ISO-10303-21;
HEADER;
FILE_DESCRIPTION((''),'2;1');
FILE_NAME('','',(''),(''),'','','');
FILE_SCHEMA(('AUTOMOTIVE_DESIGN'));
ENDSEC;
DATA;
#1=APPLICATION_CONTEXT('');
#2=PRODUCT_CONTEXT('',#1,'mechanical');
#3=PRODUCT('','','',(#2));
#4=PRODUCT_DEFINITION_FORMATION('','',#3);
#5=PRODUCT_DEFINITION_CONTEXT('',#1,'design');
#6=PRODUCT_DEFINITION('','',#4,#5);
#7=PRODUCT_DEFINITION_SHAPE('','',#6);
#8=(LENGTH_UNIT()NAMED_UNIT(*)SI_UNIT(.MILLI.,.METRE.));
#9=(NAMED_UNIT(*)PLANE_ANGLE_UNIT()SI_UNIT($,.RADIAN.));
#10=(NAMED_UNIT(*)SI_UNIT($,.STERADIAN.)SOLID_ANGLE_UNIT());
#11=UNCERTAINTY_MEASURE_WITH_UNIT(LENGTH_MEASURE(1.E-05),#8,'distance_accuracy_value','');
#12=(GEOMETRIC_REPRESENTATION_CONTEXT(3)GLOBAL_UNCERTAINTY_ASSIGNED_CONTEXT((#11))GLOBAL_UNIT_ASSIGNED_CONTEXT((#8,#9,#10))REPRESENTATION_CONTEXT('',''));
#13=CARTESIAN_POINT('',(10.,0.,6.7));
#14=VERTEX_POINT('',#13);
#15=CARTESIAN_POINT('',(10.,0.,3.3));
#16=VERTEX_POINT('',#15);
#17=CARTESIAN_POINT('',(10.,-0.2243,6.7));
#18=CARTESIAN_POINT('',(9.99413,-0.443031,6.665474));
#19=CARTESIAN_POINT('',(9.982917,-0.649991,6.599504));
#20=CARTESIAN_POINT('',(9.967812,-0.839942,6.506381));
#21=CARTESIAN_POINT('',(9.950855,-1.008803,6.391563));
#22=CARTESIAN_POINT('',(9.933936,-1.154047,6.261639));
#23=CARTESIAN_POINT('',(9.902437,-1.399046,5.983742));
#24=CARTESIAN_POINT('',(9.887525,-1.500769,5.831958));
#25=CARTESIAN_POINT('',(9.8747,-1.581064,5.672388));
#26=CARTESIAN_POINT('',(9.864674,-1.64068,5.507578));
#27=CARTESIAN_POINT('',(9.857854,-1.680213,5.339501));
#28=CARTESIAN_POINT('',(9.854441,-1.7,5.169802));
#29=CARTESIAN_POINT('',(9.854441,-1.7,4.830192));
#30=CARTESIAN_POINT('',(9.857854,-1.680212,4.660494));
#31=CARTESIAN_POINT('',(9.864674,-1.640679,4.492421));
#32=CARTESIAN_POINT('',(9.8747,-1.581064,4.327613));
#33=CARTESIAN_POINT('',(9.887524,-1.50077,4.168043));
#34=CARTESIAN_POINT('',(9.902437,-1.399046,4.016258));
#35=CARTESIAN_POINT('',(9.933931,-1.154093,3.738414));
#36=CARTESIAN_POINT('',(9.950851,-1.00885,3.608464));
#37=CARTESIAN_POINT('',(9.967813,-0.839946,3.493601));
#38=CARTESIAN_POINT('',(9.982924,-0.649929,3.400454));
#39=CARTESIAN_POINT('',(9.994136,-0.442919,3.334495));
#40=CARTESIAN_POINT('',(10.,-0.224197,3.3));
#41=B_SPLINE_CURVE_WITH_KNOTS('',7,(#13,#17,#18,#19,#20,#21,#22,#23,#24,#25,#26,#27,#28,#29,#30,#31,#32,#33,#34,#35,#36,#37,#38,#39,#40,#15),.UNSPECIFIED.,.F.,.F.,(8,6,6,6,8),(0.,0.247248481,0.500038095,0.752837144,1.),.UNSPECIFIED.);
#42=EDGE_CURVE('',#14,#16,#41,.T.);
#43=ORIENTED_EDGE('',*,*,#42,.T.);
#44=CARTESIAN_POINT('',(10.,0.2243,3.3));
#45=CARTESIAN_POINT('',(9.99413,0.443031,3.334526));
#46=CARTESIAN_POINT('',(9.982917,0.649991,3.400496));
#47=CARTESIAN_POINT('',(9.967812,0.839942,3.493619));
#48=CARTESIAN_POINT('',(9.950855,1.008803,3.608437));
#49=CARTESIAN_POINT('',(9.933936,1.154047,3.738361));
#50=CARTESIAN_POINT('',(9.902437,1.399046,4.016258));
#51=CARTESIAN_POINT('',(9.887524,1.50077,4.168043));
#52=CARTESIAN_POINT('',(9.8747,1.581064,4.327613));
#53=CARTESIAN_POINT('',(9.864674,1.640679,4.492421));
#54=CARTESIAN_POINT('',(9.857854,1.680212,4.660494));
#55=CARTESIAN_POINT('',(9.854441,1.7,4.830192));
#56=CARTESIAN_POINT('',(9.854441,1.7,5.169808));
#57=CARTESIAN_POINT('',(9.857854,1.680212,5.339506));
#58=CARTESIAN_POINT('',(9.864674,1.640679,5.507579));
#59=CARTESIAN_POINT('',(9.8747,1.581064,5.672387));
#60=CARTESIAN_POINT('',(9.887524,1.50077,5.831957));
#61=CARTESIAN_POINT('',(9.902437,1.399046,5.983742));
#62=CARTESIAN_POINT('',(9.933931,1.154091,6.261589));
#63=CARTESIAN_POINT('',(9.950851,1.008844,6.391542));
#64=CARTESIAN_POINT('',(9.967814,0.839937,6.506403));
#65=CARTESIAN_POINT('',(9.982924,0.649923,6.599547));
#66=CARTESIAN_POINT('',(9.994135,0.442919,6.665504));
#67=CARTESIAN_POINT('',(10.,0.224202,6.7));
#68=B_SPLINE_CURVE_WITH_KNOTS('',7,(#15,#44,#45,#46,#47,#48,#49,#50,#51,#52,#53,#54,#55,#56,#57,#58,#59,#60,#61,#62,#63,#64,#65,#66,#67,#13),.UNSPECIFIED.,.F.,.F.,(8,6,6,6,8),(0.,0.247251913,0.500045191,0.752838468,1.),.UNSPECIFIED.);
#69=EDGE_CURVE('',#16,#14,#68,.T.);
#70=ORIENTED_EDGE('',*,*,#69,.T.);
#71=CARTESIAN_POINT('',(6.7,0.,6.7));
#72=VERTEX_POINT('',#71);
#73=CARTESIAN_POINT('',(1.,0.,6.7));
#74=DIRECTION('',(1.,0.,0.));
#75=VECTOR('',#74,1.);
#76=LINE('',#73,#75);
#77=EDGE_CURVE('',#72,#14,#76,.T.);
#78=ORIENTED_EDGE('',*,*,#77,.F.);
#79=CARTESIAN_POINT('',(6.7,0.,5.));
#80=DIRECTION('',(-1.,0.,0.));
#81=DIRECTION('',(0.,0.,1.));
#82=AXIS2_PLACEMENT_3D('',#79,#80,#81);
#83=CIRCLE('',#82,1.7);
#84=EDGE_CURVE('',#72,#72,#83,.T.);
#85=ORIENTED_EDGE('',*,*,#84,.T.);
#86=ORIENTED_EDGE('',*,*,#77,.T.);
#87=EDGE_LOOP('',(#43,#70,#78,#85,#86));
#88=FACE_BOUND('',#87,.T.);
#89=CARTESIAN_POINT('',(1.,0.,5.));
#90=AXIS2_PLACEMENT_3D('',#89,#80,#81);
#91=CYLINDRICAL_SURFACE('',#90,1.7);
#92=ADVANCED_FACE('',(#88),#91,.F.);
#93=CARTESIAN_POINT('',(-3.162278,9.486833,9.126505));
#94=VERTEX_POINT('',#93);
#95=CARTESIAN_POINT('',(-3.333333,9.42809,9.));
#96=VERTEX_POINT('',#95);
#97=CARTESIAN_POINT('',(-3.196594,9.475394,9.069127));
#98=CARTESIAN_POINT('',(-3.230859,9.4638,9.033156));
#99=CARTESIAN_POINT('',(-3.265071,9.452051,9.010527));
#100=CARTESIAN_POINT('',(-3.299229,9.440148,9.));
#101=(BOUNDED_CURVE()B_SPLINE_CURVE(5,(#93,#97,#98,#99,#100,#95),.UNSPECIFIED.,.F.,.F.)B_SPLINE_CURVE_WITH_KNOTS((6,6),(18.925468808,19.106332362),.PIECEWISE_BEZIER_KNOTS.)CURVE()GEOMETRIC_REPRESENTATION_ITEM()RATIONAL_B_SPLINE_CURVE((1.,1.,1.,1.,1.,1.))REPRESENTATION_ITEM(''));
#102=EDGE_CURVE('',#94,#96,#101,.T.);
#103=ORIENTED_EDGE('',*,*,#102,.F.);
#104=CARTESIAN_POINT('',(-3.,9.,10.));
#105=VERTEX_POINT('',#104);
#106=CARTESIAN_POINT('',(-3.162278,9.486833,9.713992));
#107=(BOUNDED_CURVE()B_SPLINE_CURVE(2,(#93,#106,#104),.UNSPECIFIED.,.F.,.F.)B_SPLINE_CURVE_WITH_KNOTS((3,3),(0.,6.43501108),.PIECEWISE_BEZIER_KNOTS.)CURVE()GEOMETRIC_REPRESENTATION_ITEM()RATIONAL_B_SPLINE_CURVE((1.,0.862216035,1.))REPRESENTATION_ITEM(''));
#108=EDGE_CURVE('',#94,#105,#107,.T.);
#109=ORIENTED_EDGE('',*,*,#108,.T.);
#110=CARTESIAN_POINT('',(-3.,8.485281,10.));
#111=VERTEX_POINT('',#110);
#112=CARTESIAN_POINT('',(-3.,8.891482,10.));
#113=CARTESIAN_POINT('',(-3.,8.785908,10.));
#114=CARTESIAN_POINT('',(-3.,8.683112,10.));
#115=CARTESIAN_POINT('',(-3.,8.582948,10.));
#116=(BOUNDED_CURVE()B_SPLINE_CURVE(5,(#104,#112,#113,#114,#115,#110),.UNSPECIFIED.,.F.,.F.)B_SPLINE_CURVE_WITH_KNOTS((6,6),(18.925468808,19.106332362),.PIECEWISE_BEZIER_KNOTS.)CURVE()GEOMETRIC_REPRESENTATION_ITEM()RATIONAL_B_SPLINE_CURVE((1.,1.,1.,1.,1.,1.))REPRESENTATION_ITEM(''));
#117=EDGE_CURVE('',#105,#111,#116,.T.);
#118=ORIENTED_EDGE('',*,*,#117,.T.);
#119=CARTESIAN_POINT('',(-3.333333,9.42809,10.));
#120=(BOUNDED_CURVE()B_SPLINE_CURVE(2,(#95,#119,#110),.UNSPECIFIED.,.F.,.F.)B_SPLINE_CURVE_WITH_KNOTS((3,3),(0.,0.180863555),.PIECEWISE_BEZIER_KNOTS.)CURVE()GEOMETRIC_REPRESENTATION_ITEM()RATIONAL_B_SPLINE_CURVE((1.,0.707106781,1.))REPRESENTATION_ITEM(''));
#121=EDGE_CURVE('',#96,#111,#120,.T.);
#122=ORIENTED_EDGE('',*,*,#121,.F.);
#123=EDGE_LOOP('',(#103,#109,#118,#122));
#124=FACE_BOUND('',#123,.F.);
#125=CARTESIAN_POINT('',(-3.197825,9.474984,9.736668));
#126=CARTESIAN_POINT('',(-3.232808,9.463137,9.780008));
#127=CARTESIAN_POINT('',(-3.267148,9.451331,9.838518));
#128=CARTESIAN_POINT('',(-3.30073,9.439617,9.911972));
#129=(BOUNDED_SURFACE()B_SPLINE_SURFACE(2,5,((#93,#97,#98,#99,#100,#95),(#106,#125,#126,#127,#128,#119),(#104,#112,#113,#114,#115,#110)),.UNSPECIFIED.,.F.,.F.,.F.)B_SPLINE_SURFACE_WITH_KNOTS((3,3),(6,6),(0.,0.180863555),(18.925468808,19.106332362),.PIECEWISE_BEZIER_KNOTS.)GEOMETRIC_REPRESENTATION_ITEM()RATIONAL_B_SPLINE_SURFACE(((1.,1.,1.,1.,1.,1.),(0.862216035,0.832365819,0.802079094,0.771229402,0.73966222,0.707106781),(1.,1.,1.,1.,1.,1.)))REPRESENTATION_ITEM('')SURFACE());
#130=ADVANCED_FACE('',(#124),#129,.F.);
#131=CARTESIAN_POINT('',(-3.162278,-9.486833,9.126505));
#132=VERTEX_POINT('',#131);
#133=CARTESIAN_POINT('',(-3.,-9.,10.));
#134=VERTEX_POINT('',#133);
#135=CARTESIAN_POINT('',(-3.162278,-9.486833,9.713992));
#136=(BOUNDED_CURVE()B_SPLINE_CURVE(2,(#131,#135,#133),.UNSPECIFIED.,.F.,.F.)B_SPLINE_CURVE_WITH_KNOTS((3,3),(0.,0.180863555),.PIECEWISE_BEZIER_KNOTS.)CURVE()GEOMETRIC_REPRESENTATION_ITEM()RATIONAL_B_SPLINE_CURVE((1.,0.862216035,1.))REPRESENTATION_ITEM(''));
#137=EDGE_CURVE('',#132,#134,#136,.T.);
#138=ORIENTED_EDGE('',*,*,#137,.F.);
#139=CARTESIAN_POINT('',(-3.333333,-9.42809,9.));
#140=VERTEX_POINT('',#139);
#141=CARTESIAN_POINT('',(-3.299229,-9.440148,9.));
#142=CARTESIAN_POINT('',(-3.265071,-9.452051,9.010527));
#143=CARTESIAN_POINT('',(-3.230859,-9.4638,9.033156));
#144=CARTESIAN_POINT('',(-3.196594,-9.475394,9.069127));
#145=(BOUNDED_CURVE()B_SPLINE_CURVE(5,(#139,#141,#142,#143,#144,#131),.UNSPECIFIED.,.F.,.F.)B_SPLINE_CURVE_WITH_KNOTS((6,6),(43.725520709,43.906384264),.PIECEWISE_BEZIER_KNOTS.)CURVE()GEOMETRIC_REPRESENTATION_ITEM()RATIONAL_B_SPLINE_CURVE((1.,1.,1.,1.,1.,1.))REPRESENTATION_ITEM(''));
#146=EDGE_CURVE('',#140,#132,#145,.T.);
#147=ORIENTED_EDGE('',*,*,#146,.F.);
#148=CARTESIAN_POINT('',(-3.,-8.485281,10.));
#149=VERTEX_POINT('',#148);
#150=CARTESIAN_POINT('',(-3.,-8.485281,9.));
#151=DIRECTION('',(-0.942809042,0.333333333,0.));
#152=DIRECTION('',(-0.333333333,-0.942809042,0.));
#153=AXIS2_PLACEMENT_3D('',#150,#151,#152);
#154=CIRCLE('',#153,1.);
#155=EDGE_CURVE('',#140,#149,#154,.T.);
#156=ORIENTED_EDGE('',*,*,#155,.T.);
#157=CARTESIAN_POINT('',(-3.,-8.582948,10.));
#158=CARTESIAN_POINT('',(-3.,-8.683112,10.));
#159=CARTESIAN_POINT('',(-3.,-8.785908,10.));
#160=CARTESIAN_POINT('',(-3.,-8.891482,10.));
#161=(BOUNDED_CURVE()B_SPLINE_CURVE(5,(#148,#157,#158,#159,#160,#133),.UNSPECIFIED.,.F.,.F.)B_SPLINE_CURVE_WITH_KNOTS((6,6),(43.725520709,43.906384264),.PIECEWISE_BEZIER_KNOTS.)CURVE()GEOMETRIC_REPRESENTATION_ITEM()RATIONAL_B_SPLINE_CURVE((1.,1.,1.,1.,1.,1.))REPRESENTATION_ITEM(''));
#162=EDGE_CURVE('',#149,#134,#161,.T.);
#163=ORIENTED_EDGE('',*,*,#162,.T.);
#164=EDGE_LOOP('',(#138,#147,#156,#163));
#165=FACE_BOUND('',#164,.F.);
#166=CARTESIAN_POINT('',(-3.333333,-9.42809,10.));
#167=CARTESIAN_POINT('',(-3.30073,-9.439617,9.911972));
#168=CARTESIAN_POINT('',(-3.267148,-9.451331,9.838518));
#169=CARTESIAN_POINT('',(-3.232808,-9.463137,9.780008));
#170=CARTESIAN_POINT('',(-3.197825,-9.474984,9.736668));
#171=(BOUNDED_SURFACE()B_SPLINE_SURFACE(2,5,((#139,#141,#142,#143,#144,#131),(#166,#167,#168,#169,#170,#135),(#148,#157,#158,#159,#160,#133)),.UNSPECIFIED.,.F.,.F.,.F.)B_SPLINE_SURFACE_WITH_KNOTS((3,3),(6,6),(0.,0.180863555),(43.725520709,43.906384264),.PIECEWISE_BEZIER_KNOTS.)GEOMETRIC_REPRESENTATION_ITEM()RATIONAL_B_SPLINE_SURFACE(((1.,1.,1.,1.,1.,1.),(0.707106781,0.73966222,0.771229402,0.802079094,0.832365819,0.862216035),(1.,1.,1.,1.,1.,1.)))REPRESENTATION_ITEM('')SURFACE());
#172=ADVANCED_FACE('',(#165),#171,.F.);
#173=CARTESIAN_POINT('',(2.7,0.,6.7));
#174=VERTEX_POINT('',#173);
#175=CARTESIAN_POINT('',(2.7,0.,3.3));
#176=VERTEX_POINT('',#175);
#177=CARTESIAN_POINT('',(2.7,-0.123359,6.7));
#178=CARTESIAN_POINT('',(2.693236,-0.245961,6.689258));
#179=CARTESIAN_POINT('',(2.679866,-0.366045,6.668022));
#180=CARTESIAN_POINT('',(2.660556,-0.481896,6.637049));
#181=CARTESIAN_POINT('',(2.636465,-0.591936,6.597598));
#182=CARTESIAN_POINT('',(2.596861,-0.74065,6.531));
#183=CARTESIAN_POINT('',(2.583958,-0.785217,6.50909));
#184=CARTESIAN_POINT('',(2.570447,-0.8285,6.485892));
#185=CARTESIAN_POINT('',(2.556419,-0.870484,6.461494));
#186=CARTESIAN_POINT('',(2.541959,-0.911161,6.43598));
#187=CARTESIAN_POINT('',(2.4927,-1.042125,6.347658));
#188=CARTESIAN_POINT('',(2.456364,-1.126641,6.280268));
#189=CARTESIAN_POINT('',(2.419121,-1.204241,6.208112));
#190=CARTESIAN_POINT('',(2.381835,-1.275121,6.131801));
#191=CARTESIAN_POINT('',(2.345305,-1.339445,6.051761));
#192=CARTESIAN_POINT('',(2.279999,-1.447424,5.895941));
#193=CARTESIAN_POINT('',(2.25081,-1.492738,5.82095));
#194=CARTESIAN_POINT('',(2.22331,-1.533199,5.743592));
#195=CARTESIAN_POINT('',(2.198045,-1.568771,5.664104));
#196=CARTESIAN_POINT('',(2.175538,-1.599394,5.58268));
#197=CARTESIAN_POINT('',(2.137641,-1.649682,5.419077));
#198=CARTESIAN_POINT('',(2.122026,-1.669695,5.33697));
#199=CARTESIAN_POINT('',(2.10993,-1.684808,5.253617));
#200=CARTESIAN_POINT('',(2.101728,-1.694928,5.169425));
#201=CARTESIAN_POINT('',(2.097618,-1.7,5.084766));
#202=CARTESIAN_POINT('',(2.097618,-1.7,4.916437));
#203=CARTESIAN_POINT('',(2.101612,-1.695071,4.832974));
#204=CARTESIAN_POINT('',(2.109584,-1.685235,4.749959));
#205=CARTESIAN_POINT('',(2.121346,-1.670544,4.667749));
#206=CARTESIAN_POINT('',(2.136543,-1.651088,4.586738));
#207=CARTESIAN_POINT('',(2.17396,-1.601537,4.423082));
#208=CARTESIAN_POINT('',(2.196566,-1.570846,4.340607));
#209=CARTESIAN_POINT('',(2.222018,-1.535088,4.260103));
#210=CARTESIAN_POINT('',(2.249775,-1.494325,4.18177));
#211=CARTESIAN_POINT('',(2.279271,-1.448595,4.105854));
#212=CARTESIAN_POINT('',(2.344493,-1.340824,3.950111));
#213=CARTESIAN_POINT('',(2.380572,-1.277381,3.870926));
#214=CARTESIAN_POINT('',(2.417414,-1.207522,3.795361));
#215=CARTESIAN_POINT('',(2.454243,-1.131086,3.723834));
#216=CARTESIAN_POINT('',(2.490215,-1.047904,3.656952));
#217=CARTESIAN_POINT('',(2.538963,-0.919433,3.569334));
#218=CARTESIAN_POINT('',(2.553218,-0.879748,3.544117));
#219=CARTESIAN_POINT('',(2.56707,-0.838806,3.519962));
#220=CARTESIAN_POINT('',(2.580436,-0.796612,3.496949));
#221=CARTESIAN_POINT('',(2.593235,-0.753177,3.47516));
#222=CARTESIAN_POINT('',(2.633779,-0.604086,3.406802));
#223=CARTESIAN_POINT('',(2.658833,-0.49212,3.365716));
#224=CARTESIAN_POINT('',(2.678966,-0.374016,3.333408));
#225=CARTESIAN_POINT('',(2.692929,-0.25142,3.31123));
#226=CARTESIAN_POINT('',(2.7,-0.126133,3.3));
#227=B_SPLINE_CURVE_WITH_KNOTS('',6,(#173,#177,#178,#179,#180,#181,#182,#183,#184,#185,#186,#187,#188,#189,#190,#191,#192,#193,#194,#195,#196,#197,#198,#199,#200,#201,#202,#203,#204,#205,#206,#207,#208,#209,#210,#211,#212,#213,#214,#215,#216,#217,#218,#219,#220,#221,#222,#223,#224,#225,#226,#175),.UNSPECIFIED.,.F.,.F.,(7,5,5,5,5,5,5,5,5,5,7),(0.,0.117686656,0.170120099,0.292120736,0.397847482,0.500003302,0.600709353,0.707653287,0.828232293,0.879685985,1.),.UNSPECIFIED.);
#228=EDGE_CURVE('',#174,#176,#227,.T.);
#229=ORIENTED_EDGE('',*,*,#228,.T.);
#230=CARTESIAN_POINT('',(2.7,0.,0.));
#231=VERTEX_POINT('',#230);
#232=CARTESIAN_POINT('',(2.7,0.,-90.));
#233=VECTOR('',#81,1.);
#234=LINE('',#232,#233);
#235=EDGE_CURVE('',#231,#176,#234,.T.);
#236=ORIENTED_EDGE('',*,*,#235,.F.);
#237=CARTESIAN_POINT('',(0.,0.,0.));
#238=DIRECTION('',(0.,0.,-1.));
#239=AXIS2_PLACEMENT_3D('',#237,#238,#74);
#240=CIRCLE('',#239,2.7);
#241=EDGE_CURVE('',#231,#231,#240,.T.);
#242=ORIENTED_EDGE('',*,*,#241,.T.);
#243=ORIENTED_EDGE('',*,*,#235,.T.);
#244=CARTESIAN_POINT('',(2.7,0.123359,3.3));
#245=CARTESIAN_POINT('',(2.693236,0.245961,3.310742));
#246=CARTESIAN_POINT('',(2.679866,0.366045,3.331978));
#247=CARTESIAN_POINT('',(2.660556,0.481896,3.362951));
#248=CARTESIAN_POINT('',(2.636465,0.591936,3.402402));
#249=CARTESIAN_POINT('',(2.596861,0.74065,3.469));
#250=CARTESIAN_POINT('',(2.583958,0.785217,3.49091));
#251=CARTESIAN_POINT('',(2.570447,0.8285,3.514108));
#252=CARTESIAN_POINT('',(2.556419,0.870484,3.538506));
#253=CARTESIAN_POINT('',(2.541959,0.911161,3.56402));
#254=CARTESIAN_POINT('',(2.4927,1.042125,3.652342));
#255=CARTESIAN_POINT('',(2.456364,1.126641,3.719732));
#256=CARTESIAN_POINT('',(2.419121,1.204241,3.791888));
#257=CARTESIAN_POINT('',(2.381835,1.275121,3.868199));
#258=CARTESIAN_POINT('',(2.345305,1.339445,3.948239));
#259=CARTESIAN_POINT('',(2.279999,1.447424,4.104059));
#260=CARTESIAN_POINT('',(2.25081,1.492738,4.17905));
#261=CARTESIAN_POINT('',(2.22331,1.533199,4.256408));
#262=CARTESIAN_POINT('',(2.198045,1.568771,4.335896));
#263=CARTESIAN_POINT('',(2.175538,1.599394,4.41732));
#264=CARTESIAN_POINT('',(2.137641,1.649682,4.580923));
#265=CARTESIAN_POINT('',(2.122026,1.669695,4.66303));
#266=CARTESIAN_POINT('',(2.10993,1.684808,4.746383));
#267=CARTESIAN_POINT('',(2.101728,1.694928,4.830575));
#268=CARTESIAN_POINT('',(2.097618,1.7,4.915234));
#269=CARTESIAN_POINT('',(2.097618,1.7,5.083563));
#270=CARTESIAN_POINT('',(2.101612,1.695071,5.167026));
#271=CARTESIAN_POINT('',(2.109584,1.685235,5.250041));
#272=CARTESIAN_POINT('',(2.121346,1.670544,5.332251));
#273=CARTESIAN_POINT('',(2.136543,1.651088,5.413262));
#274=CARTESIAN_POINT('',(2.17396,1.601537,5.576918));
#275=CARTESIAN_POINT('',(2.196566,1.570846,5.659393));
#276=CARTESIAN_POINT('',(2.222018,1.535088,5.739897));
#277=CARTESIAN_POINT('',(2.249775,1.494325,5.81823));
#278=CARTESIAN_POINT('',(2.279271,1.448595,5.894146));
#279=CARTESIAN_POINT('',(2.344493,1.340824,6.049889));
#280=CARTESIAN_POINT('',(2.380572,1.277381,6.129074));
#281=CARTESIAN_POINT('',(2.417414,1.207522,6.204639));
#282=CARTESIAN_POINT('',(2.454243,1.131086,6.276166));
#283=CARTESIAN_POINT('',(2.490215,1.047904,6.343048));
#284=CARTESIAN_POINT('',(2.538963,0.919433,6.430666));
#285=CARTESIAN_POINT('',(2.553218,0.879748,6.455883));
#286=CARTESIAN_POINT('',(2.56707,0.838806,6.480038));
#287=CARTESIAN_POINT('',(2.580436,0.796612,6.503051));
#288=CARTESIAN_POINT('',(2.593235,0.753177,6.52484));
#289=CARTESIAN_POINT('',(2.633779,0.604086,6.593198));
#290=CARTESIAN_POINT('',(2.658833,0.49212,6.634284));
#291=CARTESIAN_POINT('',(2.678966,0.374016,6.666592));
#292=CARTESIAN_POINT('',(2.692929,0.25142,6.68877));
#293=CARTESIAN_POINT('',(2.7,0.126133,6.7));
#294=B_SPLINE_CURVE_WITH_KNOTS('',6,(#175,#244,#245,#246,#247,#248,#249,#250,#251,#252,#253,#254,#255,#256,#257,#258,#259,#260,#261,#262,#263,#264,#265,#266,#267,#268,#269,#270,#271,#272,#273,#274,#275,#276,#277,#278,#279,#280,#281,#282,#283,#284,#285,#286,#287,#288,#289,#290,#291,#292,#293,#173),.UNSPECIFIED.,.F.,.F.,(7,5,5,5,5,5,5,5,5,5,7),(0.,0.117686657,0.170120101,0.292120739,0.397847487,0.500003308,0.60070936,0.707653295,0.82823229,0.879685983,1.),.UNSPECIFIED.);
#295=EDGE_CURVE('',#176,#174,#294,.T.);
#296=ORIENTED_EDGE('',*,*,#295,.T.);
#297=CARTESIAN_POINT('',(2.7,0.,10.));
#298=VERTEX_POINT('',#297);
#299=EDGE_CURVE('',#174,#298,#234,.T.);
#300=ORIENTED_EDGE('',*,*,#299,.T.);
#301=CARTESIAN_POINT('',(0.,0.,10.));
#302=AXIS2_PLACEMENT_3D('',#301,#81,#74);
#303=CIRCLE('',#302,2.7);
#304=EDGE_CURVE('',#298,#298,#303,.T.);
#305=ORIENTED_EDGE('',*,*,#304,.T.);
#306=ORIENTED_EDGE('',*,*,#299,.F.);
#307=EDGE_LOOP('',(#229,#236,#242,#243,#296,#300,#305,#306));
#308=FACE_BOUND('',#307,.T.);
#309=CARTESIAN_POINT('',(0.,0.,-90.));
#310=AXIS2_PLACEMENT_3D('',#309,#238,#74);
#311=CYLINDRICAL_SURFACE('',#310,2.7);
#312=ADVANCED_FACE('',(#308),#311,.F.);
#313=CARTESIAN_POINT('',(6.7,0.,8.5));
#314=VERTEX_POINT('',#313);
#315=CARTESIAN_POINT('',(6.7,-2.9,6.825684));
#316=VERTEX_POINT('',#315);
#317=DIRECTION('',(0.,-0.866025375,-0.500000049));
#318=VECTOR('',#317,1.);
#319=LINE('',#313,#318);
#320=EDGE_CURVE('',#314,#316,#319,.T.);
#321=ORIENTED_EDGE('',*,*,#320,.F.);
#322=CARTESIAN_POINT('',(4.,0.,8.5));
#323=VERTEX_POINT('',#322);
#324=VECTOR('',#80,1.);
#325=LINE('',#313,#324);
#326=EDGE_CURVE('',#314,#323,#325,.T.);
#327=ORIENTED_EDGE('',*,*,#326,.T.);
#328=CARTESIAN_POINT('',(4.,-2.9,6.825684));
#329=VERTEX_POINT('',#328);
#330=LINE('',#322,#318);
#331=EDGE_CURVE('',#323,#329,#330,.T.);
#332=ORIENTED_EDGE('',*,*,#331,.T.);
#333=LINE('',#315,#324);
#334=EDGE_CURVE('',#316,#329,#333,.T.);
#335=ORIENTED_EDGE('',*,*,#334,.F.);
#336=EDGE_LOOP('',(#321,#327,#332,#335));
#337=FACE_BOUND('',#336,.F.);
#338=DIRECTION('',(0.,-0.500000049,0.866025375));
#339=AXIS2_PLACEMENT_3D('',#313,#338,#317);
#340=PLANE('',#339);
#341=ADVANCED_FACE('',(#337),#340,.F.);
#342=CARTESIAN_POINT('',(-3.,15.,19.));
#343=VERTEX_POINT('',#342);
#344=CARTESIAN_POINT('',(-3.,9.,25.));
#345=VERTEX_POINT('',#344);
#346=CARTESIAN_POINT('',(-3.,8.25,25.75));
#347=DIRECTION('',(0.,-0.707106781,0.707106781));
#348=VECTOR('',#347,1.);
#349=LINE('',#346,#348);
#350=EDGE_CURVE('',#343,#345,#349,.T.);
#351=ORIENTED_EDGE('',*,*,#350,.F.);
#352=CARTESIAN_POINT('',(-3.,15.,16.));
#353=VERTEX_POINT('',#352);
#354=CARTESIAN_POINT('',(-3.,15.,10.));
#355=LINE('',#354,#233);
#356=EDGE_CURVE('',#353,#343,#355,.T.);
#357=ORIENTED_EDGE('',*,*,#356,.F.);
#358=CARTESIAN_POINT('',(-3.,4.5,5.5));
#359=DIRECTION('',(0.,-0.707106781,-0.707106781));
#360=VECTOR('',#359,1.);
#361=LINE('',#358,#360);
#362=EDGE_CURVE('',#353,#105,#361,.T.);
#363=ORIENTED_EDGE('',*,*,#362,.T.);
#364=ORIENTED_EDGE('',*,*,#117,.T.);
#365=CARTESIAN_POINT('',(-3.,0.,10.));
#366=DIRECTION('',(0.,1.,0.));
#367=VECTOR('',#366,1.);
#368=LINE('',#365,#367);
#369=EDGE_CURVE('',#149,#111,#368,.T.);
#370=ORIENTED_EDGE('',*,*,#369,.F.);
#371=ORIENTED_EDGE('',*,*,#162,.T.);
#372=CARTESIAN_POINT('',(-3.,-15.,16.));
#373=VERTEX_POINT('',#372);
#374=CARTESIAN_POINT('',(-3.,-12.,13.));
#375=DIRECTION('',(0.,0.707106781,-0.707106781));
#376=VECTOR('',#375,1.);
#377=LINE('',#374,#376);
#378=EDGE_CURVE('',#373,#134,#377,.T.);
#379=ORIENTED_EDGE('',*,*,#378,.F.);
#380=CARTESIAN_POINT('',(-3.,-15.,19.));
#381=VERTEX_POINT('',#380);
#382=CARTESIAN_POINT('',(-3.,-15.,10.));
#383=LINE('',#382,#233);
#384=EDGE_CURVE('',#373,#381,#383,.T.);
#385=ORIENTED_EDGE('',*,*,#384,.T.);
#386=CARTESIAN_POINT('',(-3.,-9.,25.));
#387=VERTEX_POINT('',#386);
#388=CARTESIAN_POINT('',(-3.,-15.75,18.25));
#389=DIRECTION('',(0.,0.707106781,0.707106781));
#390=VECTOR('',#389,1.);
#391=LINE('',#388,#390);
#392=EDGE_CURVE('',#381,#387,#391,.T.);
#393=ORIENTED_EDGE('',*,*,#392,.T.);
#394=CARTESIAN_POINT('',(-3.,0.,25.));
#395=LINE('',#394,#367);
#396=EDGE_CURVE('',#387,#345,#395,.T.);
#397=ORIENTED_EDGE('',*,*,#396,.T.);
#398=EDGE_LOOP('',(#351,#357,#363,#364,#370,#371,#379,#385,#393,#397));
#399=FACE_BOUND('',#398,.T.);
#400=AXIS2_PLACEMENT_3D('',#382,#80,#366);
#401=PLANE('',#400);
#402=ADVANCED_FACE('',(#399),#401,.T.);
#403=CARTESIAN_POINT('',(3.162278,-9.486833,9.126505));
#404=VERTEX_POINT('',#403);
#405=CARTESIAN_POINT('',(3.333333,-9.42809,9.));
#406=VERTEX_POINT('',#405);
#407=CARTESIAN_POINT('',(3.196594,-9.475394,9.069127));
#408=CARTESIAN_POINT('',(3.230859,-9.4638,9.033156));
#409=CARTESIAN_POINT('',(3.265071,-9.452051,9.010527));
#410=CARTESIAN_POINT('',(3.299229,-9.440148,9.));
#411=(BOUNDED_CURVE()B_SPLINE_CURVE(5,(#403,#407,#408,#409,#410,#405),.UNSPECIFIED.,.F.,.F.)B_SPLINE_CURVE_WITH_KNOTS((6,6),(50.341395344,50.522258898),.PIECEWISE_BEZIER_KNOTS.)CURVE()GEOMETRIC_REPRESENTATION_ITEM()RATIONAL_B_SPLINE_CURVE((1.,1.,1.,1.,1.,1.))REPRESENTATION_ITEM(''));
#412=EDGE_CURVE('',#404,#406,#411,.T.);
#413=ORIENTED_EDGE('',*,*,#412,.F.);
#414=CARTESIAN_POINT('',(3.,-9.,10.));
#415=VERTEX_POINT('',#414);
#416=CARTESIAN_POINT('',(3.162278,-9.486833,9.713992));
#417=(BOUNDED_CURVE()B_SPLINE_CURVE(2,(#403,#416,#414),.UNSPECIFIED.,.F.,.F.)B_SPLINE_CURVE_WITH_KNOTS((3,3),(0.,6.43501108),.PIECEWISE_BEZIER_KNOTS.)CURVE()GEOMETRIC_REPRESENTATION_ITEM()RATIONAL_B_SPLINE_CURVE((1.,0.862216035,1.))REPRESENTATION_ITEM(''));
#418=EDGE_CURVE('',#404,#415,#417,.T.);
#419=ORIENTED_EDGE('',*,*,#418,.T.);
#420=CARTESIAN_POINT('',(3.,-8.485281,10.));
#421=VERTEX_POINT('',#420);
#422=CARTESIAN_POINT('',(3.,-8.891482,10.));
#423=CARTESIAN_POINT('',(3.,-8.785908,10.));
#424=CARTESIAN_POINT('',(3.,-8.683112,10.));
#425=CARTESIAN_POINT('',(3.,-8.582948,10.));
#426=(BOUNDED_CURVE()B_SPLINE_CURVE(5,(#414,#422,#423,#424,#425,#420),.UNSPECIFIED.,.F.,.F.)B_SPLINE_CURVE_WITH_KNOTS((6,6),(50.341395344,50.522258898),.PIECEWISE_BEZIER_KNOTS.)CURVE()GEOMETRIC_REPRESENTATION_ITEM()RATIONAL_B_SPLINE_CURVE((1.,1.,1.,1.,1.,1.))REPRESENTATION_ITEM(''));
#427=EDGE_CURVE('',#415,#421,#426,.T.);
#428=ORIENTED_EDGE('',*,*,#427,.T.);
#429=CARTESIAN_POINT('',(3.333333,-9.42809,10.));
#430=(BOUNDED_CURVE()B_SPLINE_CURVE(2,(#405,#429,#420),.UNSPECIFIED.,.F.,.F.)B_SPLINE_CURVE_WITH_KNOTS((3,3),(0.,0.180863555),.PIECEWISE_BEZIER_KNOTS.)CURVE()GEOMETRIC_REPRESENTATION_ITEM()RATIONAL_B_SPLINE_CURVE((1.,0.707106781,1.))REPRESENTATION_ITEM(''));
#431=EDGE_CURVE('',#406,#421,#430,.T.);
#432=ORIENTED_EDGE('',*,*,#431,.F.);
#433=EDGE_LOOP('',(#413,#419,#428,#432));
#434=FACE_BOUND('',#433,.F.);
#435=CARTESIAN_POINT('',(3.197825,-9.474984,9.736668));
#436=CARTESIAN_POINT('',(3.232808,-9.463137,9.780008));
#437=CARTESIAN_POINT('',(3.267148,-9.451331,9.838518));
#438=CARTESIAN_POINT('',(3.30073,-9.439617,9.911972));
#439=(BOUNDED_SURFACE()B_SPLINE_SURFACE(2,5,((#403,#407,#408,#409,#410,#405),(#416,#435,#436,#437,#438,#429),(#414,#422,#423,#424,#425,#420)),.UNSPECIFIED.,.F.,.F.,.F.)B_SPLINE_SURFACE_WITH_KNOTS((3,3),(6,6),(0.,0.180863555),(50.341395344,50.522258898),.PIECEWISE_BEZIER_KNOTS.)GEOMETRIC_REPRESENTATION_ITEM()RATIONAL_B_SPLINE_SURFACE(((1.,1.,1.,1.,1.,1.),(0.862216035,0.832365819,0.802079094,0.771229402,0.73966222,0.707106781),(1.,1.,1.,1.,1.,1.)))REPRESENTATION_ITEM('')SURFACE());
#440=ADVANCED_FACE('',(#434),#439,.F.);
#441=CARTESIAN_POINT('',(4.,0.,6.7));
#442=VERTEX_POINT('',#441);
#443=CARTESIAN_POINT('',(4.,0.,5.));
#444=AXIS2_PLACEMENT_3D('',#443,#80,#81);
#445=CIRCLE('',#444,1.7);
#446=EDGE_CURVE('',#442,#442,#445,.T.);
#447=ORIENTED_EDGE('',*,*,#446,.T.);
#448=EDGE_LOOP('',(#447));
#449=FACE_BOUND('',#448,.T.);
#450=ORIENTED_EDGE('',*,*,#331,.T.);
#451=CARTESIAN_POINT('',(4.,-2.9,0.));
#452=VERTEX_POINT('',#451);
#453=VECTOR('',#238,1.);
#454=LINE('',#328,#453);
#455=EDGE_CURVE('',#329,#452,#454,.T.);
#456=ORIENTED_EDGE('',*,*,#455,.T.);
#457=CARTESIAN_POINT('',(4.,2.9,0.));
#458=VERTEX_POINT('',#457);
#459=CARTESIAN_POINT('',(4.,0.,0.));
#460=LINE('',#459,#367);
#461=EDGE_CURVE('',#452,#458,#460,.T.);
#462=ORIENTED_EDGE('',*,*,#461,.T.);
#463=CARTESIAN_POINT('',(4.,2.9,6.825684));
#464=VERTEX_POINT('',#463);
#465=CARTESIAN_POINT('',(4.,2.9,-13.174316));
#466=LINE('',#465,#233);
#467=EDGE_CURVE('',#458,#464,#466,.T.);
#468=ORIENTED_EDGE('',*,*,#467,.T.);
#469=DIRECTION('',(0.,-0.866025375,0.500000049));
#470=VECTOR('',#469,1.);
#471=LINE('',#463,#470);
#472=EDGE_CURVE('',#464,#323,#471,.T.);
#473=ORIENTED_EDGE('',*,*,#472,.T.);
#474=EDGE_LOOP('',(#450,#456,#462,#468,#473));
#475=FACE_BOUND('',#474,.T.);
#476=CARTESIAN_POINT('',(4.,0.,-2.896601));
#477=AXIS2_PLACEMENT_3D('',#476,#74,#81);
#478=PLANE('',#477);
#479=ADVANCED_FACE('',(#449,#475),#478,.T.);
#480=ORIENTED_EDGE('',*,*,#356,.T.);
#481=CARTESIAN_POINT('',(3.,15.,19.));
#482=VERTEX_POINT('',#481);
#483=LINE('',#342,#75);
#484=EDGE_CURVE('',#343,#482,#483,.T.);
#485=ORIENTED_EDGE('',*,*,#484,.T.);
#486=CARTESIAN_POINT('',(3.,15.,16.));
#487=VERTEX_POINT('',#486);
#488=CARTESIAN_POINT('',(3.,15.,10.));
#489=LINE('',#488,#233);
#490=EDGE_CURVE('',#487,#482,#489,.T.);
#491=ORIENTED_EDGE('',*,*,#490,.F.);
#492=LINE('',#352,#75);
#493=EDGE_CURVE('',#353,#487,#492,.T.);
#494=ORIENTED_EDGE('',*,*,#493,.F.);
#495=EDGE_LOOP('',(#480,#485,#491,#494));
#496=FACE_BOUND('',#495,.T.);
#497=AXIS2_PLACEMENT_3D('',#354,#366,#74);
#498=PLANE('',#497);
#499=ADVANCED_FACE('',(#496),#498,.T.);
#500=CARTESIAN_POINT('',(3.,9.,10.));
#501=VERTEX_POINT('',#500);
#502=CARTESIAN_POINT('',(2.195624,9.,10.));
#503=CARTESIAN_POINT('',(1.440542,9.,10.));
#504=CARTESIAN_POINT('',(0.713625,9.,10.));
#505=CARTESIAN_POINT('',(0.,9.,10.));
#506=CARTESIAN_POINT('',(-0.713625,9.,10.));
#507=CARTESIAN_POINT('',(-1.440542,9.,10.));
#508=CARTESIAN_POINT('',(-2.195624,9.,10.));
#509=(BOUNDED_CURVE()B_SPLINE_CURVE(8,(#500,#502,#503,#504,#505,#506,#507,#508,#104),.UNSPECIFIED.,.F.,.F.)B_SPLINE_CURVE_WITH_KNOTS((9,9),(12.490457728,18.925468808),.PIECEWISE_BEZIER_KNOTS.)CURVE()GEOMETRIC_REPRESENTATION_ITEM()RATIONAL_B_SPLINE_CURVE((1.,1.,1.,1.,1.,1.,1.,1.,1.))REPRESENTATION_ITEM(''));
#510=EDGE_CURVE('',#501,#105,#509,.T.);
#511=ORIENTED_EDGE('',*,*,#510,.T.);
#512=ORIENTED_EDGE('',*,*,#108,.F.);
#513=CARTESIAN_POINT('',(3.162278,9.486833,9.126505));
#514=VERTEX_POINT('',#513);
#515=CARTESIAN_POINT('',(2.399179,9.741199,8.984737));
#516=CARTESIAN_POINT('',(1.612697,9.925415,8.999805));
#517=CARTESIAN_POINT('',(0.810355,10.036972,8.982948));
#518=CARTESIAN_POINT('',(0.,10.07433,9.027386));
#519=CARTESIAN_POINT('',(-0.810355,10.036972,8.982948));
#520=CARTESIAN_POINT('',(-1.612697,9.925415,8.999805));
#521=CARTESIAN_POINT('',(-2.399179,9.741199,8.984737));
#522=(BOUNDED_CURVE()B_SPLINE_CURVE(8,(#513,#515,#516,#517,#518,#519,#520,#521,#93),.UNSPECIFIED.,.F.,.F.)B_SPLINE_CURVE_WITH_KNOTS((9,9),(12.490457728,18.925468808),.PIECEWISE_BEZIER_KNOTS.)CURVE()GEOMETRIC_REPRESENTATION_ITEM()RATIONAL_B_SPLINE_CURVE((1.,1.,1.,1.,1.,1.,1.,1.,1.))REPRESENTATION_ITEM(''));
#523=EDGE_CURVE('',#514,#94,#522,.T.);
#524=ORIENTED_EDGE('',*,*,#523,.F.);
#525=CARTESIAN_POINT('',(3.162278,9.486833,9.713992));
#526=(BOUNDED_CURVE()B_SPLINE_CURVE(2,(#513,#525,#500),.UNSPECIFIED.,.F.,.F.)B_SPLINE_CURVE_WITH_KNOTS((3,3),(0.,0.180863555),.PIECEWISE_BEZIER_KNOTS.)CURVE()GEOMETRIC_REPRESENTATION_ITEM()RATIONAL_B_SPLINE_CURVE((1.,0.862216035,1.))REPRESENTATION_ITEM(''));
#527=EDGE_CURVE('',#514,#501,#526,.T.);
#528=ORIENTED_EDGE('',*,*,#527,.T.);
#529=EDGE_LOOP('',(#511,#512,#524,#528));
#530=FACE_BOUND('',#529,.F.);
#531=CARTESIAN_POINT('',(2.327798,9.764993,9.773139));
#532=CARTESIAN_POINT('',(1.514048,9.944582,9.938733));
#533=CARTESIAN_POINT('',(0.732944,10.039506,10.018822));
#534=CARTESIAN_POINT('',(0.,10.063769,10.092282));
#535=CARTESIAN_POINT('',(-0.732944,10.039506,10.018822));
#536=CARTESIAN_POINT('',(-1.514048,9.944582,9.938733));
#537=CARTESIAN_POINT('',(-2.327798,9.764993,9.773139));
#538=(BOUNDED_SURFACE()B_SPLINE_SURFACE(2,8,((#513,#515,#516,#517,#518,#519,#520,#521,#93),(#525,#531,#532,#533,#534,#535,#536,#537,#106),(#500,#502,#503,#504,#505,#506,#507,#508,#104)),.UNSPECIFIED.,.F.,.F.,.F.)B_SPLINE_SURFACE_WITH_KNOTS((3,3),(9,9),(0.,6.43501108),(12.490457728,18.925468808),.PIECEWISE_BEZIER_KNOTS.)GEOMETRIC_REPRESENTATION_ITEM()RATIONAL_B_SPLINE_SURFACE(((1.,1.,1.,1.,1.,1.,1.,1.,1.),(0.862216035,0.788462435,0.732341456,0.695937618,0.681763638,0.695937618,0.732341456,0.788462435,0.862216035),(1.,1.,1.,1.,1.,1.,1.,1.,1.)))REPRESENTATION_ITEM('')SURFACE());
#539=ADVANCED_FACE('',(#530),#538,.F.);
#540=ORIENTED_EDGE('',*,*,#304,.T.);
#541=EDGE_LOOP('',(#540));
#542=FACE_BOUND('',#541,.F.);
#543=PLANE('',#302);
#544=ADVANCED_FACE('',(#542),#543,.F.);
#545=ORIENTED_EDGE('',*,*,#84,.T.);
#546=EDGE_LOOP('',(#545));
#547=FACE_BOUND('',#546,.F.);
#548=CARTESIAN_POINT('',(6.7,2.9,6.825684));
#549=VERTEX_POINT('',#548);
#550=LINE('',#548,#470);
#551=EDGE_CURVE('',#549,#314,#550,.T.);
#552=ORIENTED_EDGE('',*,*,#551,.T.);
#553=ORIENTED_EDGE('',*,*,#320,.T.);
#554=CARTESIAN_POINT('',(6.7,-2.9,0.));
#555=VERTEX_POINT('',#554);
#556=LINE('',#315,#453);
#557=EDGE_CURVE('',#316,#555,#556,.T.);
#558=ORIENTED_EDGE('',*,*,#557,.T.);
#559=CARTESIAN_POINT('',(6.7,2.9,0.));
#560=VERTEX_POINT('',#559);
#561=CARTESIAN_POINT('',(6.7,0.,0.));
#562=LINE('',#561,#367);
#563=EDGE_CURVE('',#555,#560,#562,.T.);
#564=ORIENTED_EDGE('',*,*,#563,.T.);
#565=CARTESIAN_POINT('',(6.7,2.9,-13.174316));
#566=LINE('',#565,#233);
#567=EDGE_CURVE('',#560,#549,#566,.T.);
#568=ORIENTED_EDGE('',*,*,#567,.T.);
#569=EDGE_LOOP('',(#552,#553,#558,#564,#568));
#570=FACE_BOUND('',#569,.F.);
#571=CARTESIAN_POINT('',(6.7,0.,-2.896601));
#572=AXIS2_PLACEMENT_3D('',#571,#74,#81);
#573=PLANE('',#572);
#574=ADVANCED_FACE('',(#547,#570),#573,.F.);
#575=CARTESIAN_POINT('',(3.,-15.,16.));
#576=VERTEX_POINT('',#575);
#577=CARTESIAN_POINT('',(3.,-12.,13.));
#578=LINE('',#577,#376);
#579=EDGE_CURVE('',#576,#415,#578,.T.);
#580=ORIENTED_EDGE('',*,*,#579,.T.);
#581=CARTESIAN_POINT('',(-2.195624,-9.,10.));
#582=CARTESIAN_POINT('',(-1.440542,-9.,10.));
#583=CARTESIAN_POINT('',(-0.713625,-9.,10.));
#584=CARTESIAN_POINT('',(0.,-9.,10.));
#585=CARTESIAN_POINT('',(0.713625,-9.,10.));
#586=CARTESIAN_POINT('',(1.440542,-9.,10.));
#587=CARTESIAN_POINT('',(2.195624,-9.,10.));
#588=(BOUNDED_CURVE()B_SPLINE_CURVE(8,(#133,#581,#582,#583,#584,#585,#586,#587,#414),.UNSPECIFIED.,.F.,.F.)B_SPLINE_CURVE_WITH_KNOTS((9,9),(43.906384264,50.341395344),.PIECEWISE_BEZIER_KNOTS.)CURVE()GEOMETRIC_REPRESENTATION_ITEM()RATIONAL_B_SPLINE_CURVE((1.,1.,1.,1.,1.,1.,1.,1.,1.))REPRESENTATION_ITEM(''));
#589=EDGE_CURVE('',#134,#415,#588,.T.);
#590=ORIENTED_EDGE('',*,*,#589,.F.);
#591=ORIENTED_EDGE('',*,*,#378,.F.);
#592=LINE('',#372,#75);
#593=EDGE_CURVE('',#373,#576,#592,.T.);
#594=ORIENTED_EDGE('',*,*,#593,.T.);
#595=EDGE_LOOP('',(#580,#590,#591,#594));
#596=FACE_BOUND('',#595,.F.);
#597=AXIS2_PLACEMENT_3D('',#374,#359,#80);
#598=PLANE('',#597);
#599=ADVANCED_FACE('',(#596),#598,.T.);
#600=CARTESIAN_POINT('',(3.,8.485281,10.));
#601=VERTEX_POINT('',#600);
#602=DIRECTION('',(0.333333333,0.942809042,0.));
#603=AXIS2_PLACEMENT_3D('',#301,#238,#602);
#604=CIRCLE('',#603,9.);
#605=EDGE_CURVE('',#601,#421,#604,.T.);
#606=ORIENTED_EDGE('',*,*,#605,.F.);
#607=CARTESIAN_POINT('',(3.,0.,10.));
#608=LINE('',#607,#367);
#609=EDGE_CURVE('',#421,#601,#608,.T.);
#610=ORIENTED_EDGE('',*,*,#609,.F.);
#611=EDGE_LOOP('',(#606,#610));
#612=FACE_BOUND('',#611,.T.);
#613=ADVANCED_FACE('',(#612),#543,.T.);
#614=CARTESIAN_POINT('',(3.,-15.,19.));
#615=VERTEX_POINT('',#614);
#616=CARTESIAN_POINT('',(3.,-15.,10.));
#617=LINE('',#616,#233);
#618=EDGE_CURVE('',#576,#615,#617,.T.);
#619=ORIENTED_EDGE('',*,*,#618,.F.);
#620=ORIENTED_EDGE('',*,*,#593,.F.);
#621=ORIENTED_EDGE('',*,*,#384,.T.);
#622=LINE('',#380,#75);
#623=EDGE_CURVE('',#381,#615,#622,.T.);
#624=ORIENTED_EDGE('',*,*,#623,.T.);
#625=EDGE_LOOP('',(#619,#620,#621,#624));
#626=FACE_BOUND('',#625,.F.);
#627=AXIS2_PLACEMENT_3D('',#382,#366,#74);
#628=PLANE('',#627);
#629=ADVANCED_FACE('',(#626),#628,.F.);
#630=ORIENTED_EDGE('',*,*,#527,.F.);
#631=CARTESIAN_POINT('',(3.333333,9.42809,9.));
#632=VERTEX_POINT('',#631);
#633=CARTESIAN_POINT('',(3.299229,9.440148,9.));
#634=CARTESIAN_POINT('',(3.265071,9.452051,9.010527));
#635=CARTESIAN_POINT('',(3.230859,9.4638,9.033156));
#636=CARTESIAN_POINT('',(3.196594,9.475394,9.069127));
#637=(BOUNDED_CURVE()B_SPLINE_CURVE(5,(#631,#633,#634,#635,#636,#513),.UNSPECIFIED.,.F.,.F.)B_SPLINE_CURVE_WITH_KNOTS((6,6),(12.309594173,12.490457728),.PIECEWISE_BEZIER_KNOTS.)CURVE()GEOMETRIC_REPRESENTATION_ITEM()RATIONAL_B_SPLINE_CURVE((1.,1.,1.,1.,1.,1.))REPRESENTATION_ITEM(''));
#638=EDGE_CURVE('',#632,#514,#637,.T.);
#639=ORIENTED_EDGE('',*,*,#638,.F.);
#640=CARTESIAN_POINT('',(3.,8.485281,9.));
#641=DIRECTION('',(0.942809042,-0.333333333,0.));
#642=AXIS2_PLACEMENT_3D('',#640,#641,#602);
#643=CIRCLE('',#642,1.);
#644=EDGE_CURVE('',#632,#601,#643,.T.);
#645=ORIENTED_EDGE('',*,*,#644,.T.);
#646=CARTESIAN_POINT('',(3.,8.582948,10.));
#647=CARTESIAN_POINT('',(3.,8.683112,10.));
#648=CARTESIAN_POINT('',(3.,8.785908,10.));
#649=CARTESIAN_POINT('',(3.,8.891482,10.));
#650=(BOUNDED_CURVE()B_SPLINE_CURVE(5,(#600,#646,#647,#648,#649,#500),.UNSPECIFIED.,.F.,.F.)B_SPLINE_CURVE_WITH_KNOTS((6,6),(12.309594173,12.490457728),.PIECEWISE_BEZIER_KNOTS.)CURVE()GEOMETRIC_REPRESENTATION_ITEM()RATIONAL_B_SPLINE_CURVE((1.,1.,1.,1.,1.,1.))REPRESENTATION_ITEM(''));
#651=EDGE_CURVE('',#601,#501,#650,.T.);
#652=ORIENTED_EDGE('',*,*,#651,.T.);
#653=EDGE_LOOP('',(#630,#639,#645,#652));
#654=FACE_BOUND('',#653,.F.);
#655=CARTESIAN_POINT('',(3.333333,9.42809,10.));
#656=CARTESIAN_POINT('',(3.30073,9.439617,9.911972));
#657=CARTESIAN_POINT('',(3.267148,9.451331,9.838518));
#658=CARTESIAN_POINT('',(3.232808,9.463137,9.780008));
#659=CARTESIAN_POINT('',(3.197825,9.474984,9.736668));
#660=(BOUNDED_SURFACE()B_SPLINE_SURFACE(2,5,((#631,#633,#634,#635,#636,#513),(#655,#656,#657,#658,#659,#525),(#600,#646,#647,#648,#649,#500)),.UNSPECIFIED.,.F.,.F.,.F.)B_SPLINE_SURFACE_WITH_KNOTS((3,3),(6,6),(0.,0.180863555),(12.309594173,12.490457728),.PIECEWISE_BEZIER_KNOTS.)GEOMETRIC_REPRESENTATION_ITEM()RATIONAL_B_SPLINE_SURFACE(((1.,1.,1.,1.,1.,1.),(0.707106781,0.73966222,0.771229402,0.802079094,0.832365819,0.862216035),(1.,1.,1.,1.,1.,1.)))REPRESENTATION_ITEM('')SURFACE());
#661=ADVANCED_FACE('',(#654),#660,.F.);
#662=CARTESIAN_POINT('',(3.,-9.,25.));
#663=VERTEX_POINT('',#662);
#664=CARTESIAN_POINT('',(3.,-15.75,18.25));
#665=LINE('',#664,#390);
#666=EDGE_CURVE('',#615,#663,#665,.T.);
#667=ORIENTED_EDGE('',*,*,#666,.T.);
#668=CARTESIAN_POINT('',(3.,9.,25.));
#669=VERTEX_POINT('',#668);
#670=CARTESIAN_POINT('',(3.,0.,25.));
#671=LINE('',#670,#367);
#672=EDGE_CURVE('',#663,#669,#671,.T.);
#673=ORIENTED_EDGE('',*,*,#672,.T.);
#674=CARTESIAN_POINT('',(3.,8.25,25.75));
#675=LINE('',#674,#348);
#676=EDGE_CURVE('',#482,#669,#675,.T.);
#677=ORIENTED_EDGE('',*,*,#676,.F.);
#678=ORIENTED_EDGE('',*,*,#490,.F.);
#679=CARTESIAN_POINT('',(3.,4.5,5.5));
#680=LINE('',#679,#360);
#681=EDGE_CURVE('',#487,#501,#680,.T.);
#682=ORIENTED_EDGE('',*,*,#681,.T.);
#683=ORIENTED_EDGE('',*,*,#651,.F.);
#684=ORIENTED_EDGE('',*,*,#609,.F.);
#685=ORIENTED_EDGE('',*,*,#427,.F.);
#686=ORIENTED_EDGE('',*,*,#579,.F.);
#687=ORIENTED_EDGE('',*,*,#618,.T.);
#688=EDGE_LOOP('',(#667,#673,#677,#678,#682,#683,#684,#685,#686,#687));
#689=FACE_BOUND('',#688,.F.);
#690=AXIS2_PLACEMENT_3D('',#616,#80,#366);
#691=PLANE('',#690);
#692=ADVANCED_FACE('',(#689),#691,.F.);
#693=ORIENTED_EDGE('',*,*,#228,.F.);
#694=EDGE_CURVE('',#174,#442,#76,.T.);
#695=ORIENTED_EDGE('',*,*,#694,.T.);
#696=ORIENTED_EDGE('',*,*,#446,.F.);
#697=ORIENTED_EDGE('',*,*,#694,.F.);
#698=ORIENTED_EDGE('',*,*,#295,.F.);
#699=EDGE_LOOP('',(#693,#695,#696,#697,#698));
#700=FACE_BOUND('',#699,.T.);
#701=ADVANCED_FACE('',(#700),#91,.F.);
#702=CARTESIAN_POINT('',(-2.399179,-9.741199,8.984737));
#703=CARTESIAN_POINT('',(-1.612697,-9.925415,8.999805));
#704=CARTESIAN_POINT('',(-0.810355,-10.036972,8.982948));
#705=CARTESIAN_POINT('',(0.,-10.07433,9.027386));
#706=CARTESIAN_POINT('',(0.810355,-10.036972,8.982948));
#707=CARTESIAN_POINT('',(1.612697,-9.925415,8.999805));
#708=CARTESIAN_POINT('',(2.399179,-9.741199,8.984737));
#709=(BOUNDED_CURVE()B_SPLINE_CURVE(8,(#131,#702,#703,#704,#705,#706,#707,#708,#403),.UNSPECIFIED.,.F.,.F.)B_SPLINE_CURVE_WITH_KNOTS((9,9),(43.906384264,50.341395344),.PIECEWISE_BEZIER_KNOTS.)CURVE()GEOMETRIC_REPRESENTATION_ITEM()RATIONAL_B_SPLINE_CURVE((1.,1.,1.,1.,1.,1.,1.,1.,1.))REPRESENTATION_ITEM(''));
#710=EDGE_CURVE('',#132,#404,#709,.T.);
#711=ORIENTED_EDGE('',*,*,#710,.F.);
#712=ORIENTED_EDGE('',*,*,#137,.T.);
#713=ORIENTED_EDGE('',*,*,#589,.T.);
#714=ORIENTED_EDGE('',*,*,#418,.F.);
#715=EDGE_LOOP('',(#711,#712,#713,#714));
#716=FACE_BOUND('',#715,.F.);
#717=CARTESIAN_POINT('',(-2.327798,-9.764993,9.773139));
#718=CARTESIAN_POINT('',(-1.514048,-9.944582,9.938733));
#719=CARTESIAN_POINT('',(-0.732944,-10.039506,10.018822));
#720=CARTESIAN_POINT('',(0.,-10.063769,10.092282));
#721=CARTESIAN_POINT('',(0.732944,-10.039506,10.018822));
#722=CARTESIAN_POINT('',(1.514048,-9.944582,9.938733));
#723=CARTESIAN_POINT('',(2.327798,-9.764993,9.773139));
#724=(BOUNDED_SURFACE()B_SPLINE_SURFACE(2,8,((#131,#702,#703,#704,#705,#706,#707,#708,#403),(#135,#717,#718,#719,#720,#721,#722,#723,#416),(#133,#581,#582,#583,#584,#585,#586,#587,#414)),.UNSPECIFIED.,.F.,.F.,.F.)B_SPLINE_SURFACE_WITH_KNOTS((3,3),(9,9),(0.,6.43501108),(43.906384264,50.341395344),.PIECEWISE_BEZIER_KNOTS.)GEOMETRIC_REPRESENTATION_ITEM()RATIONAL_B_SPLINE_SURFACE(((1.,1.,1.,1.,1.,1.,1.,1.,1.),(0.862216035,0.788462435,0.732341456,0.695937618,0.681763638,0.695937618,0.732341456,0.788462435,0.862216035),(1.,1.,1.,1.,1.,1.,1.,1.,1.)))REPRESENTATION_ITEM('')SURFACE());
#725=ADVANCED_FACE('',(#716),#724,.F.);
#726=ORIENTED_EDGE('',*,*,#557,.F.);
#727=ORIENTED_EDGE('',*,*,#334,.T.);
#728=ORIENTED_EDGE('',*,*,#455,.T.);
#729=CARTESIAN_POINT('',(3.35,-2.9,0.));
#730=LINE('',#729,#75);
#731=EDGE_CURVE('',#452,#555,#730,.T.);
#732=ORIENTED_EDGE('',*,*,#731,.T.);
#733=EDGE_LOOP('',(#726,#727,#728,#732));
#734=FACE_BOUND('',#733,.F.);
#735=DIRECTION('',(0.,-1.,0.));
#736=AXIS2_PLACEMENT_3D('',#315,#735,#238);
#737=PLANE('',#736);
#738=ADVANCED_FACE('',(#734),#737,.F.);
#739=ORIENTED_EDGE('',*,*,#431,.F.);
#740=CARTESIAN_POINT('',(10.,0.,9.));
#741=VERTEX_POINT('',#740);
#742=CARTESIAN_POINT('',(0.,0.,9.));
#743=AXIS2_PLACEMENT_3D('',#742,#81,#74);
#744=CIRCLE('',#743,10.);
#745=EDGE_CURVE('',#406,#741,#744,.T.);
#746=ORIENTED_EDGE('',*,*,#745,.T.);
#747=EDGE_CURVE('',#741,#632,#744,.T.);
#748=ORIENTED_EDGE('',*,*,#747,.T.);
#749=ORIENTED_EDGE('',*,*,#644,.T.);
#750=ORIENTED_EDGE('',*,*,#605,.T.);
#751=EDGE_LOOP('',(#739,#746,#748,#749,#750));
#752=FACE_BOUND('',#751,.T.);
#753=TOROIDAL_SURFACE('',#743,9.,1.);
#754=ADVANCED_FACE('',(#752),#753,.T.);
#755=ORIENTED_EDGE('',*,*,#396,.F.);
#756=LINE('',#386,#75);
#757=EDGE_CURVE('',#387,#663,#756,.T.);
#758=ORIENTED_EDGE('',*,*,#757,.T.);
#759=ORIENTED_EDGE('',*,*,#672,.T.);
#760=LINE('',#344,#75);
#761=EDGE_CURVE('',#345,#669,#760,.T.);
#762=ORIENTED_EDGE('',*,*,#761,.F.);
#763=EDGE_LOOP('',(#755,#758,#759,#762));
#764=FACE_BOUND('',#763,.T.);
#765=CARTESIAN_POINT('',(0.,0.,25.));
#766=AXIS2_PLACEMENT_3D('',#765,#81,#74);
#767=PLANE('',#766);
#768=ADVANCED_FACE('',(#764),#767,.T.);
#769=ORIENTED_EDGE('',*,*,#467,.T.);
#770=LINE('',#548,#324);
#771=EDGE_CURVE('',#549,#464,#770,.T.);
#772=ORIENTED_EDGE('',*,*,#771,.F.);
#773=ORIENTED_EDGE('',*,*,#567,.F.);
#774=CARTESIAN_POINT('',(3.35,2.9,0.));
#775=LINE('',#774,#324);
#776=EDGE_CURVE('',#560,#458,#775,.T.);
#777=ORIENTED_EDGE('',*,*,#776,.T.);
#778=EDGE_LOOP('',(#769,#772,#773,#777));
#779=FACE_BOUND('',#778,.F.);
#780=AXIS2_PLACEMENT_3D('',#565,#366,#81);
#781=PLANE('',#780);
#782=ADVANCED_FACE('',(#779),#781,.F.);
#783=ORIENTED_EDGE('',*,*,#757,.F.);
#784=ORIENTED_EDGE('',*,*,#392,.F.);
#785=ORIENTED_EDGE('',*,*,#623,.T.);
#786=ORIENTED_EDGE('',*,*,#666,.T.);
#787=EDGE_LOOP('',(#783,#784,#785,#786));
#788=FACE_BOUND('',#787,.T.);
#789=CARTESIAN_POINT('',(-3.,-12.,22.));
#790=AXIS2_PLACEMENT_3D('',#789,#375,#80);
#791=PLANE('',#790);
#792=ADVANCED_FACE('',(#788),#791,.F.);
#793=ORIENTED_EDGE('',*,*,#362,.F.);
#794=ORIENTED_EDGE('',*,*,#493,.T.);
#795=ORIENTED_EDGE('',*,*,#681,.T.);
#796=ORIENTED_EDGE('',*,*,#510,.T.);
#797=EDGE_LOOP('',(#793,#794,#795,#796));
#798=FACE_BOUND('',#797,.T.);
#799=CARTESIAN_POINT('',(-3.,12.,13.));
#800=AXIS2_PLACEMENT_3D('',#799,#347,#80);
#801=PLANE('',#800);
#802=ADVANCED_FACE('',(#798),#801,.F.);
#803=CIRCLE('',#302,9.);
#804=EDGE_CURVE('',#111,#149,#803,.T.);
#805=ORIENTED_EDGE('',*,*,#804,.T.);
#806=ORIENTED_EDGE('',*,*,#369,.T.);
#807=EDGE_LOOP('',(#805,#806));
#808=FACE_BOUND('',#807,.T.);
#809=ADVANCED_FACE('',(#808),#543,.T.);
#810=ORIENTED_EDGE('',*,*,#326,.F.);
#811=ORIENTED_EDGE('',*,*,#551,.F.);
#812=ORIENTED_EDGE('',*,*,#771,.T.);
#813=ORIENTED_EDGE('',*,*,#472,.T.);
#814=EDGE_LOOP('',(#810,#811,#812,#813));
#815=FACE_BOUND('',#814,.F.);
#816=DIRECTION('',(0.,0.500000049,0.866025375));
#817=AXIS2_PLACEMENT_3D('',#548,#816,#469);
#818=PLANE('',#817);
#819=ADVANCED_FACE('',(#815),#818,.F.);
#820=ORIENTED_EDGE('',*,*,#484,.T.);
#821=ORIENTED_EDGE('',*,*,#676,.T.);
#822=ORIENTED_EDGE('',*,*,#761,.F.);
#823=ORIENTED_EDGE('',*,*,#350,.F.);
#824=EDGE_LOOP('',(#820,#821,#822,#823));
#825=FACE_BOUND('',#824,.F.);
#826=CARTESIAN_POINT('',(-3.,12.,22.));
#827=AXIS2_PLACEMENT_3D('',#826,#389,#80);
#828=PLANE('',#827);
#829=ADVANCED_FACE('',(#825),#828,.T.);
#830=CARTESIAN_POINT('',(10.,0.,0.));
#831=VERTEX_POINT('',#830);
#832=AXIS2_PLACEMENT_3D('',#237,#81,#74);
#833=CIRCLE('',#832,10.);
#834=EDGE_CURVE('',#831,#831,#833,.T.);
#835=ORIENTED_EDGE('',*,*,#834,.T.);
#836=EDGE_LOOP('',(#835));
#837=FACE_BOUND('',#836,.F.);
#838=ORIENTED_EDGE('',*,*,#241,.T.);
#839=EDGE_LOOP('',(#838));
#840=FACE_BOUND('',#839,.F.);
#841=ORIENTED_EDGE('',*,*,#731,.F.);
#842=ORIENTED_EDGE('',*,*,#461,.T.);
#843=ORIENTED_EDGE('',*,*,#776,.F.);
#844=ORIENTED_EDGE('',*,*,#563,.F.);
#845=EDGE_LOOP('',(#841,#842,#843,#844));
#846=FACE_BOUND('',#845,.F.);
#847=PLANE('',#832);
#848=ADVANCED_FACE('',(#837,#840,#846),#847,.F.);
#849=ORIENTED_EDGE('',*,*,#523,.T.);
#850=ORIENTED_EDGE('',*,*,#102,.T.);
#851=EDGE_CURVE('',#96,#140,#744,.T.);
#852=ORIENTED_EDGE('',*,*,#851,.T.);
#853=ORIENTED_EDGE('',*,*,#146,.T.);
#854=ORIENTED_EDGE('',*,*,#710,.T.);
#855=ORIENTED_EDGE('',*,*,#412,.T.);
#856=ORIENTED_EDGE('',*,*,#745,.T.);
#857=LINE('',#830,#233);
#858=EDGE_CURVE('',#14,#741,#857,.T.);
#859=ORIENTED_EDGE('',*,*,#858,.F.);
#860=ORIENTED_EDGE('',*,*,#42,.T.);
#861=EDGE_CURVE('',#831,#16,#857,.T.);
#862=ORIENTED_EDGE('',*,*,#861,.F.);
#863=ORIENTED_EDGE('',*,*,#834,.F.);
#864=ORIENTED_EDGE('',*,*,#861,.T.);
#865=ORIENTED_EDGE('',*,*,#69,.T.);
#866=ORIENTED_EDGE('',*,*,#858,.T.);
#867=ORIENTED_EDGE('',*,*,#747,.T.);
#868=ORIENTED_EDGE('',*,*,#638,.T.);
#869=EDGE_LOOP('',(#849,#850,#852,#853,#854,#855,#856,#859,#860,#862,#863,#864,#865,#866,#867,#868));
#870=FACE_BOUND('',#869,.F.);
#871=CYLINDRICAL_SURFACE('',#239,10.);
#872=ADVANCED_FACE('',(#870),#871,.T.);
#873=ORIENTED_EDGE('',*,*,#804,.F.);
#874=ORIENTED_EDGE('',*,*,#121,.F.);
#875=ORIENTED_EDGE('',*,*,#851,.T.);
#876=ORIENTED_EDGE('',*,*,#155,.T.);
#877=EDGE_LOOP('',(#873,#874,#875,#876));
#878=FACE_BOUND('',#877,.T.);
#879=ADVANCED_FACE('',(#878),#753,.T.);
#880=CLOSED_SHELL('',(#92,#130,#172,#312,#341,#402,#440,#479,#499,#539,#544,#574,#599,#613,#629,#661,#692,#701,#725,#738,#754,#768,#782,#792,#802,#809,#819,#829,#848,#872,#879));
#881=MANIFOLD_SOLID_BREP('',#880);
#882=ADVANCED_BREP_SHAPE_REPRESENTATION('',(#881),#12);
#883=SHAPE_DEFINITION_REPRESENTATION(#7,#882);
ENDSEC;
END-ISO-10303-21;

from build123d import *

# Parameters (mm, degrees)
PAD007_DEPTH             = 2.7
CLONE087_ROLL_ANGLE      = 180
CYLINDER1014_R           = 2.7
CYLINDER1014_DEPTH       = 100
CYLINDER1018_R           = 1.7
CYLINDER1018_DEPTH       = 10
CLONE086_PITCH_ANGLE     = -90
CLONE086_PLACEMENT_ANGLE = -180
BOX044_W                 = 6
BOX044_H                 = 30
BOX044_DEPTH             = 15
CHAMFER017_SIZE          = 6
CYLINDER1039_R           = 10
CYLINDER1039_DEPTH       = 10
FILLET_R                 = 1


with BuildPart() as clone_of_m3nuthousingmaster012:
    # Sketch008 → Pad007 (new body)
    with BuildSketch(Plane(origin=(65, 30, 1.5), x_dir=(0, 0, 1), z_dir=(-1, 0, 0))):
        Polygon((0, 0), (1.674316, 2.9), (21.674316, 2.9), (21.674316, -2.9), (1.674316, -2.9), align=None)
    extrude(amount=PAD007_DEPTH)


with BuildPart() as clone_of_m3nuthousingmaster012_1:
    # Clone087 roll: moved
    add(clone_of_m3nuthousingmaster012.part.rotate(Axis((0, 0, 0), (1, 0, 0)), CLONE087_ROLL_ANGLE))


with BuildPart() as clone_of_m3nuthousingmaster012_2:
    # Clone087 placement: moved
    add(clone_of_m3nuthousingmaster012_1.part.moved(Location((-58.3, 30, 10))))


with BuildPart() as clone_of_5mmrodmaster013:
    # Cylinder1014 → Cylinder1014 (new body)
    with BuildSketch(Plane.XY):
        Circle(CYLINDER1014_R)
    extrude(amount=CYLINDER1014_DEPTH)


with BuildPart() as clone_of_5mmrodmaster013_1:
    # Clone085 placement: moved
    add(clone_of_5mmrodmaster013.part.moved(Location((0, 0, -90))))


with BuildPart() as fusion069:
    # Cylinder1018 → Cylinder1018 (new body)
    with BuildSketch(Plane.XY):
        Circle(CYLINDER1018_R)
    extrude(amount=CYLINDER1018_DEPTH)


with BuildPart() as fusion069_1:
    # Clone086 pitch: moved
    add(fusion069.part.rotate(Axis((0, 0, 0), (0, 1, 0)), CLONE086_PITCH_ANGLE))


with BuildPart() as fusion069_2:
    # Clone086 placement: moved
    add(fusion069_1.part.moved(Location((1, 0, 5))).rotate(Axis((1, 0, 5), (0, 0, 1)), CLONE086_PLACEMENT_ANGLE))

    # Fusion069: union Clone of M3NutHousingMaster012, Clone of 5mmRodMaster013
    add(clone_of_m3nuthousingmaster012_2.part)
    add(clone_of_5mmrodmaster013_1.part)


with BuildPart() as chamfer017:
    # Box044 → Box044 (new body)
    with BuildSketch(Plane(origin=(-3, -15, 10), x_dir=(1, 0, 0), z_dir=(0, 0, 1))):
        with Locations((3, 15)):
            Rectangle(BOX044_W, BOX044_H)
    extrude(amount=BOX044_DEPTH)

    # Chamfer017
    chamfer017_edges = [chamfer017.edges().sort_by_distance(p)[0] for p in [
        (0, -15, 10),
        (0, -15, 25),
        (0, 15, 10),
        (0, 15, 25),
    ]]
    chamfer(chamfer017_edges, length=CHAMFER017_SIZE)


with BuildPart() as adjustwheel:
    # Cylinder1039 → Cylinder1039 (new body)
    with BuildSketch(Plane.XY):
        Circle(CYLINDER1039_R)
    extrude(amount=CYLINDER1039_DEPTH)

    # Fusion070: union Chamfer017
    add(chamfer017.part)

    # Fillet
    fillet_edges = [adjustwheel.edges().sort_by_distance(p)[0] for p in [
        (-10, 0, 10),
    ]]
    fillet(fillet_edges, radius=FILLET_R)

    # Cut052: cut Fusion069
    add(fusion069_2.part, mode=Mode.SUBTRACT)


solid = adjustwheel.part
